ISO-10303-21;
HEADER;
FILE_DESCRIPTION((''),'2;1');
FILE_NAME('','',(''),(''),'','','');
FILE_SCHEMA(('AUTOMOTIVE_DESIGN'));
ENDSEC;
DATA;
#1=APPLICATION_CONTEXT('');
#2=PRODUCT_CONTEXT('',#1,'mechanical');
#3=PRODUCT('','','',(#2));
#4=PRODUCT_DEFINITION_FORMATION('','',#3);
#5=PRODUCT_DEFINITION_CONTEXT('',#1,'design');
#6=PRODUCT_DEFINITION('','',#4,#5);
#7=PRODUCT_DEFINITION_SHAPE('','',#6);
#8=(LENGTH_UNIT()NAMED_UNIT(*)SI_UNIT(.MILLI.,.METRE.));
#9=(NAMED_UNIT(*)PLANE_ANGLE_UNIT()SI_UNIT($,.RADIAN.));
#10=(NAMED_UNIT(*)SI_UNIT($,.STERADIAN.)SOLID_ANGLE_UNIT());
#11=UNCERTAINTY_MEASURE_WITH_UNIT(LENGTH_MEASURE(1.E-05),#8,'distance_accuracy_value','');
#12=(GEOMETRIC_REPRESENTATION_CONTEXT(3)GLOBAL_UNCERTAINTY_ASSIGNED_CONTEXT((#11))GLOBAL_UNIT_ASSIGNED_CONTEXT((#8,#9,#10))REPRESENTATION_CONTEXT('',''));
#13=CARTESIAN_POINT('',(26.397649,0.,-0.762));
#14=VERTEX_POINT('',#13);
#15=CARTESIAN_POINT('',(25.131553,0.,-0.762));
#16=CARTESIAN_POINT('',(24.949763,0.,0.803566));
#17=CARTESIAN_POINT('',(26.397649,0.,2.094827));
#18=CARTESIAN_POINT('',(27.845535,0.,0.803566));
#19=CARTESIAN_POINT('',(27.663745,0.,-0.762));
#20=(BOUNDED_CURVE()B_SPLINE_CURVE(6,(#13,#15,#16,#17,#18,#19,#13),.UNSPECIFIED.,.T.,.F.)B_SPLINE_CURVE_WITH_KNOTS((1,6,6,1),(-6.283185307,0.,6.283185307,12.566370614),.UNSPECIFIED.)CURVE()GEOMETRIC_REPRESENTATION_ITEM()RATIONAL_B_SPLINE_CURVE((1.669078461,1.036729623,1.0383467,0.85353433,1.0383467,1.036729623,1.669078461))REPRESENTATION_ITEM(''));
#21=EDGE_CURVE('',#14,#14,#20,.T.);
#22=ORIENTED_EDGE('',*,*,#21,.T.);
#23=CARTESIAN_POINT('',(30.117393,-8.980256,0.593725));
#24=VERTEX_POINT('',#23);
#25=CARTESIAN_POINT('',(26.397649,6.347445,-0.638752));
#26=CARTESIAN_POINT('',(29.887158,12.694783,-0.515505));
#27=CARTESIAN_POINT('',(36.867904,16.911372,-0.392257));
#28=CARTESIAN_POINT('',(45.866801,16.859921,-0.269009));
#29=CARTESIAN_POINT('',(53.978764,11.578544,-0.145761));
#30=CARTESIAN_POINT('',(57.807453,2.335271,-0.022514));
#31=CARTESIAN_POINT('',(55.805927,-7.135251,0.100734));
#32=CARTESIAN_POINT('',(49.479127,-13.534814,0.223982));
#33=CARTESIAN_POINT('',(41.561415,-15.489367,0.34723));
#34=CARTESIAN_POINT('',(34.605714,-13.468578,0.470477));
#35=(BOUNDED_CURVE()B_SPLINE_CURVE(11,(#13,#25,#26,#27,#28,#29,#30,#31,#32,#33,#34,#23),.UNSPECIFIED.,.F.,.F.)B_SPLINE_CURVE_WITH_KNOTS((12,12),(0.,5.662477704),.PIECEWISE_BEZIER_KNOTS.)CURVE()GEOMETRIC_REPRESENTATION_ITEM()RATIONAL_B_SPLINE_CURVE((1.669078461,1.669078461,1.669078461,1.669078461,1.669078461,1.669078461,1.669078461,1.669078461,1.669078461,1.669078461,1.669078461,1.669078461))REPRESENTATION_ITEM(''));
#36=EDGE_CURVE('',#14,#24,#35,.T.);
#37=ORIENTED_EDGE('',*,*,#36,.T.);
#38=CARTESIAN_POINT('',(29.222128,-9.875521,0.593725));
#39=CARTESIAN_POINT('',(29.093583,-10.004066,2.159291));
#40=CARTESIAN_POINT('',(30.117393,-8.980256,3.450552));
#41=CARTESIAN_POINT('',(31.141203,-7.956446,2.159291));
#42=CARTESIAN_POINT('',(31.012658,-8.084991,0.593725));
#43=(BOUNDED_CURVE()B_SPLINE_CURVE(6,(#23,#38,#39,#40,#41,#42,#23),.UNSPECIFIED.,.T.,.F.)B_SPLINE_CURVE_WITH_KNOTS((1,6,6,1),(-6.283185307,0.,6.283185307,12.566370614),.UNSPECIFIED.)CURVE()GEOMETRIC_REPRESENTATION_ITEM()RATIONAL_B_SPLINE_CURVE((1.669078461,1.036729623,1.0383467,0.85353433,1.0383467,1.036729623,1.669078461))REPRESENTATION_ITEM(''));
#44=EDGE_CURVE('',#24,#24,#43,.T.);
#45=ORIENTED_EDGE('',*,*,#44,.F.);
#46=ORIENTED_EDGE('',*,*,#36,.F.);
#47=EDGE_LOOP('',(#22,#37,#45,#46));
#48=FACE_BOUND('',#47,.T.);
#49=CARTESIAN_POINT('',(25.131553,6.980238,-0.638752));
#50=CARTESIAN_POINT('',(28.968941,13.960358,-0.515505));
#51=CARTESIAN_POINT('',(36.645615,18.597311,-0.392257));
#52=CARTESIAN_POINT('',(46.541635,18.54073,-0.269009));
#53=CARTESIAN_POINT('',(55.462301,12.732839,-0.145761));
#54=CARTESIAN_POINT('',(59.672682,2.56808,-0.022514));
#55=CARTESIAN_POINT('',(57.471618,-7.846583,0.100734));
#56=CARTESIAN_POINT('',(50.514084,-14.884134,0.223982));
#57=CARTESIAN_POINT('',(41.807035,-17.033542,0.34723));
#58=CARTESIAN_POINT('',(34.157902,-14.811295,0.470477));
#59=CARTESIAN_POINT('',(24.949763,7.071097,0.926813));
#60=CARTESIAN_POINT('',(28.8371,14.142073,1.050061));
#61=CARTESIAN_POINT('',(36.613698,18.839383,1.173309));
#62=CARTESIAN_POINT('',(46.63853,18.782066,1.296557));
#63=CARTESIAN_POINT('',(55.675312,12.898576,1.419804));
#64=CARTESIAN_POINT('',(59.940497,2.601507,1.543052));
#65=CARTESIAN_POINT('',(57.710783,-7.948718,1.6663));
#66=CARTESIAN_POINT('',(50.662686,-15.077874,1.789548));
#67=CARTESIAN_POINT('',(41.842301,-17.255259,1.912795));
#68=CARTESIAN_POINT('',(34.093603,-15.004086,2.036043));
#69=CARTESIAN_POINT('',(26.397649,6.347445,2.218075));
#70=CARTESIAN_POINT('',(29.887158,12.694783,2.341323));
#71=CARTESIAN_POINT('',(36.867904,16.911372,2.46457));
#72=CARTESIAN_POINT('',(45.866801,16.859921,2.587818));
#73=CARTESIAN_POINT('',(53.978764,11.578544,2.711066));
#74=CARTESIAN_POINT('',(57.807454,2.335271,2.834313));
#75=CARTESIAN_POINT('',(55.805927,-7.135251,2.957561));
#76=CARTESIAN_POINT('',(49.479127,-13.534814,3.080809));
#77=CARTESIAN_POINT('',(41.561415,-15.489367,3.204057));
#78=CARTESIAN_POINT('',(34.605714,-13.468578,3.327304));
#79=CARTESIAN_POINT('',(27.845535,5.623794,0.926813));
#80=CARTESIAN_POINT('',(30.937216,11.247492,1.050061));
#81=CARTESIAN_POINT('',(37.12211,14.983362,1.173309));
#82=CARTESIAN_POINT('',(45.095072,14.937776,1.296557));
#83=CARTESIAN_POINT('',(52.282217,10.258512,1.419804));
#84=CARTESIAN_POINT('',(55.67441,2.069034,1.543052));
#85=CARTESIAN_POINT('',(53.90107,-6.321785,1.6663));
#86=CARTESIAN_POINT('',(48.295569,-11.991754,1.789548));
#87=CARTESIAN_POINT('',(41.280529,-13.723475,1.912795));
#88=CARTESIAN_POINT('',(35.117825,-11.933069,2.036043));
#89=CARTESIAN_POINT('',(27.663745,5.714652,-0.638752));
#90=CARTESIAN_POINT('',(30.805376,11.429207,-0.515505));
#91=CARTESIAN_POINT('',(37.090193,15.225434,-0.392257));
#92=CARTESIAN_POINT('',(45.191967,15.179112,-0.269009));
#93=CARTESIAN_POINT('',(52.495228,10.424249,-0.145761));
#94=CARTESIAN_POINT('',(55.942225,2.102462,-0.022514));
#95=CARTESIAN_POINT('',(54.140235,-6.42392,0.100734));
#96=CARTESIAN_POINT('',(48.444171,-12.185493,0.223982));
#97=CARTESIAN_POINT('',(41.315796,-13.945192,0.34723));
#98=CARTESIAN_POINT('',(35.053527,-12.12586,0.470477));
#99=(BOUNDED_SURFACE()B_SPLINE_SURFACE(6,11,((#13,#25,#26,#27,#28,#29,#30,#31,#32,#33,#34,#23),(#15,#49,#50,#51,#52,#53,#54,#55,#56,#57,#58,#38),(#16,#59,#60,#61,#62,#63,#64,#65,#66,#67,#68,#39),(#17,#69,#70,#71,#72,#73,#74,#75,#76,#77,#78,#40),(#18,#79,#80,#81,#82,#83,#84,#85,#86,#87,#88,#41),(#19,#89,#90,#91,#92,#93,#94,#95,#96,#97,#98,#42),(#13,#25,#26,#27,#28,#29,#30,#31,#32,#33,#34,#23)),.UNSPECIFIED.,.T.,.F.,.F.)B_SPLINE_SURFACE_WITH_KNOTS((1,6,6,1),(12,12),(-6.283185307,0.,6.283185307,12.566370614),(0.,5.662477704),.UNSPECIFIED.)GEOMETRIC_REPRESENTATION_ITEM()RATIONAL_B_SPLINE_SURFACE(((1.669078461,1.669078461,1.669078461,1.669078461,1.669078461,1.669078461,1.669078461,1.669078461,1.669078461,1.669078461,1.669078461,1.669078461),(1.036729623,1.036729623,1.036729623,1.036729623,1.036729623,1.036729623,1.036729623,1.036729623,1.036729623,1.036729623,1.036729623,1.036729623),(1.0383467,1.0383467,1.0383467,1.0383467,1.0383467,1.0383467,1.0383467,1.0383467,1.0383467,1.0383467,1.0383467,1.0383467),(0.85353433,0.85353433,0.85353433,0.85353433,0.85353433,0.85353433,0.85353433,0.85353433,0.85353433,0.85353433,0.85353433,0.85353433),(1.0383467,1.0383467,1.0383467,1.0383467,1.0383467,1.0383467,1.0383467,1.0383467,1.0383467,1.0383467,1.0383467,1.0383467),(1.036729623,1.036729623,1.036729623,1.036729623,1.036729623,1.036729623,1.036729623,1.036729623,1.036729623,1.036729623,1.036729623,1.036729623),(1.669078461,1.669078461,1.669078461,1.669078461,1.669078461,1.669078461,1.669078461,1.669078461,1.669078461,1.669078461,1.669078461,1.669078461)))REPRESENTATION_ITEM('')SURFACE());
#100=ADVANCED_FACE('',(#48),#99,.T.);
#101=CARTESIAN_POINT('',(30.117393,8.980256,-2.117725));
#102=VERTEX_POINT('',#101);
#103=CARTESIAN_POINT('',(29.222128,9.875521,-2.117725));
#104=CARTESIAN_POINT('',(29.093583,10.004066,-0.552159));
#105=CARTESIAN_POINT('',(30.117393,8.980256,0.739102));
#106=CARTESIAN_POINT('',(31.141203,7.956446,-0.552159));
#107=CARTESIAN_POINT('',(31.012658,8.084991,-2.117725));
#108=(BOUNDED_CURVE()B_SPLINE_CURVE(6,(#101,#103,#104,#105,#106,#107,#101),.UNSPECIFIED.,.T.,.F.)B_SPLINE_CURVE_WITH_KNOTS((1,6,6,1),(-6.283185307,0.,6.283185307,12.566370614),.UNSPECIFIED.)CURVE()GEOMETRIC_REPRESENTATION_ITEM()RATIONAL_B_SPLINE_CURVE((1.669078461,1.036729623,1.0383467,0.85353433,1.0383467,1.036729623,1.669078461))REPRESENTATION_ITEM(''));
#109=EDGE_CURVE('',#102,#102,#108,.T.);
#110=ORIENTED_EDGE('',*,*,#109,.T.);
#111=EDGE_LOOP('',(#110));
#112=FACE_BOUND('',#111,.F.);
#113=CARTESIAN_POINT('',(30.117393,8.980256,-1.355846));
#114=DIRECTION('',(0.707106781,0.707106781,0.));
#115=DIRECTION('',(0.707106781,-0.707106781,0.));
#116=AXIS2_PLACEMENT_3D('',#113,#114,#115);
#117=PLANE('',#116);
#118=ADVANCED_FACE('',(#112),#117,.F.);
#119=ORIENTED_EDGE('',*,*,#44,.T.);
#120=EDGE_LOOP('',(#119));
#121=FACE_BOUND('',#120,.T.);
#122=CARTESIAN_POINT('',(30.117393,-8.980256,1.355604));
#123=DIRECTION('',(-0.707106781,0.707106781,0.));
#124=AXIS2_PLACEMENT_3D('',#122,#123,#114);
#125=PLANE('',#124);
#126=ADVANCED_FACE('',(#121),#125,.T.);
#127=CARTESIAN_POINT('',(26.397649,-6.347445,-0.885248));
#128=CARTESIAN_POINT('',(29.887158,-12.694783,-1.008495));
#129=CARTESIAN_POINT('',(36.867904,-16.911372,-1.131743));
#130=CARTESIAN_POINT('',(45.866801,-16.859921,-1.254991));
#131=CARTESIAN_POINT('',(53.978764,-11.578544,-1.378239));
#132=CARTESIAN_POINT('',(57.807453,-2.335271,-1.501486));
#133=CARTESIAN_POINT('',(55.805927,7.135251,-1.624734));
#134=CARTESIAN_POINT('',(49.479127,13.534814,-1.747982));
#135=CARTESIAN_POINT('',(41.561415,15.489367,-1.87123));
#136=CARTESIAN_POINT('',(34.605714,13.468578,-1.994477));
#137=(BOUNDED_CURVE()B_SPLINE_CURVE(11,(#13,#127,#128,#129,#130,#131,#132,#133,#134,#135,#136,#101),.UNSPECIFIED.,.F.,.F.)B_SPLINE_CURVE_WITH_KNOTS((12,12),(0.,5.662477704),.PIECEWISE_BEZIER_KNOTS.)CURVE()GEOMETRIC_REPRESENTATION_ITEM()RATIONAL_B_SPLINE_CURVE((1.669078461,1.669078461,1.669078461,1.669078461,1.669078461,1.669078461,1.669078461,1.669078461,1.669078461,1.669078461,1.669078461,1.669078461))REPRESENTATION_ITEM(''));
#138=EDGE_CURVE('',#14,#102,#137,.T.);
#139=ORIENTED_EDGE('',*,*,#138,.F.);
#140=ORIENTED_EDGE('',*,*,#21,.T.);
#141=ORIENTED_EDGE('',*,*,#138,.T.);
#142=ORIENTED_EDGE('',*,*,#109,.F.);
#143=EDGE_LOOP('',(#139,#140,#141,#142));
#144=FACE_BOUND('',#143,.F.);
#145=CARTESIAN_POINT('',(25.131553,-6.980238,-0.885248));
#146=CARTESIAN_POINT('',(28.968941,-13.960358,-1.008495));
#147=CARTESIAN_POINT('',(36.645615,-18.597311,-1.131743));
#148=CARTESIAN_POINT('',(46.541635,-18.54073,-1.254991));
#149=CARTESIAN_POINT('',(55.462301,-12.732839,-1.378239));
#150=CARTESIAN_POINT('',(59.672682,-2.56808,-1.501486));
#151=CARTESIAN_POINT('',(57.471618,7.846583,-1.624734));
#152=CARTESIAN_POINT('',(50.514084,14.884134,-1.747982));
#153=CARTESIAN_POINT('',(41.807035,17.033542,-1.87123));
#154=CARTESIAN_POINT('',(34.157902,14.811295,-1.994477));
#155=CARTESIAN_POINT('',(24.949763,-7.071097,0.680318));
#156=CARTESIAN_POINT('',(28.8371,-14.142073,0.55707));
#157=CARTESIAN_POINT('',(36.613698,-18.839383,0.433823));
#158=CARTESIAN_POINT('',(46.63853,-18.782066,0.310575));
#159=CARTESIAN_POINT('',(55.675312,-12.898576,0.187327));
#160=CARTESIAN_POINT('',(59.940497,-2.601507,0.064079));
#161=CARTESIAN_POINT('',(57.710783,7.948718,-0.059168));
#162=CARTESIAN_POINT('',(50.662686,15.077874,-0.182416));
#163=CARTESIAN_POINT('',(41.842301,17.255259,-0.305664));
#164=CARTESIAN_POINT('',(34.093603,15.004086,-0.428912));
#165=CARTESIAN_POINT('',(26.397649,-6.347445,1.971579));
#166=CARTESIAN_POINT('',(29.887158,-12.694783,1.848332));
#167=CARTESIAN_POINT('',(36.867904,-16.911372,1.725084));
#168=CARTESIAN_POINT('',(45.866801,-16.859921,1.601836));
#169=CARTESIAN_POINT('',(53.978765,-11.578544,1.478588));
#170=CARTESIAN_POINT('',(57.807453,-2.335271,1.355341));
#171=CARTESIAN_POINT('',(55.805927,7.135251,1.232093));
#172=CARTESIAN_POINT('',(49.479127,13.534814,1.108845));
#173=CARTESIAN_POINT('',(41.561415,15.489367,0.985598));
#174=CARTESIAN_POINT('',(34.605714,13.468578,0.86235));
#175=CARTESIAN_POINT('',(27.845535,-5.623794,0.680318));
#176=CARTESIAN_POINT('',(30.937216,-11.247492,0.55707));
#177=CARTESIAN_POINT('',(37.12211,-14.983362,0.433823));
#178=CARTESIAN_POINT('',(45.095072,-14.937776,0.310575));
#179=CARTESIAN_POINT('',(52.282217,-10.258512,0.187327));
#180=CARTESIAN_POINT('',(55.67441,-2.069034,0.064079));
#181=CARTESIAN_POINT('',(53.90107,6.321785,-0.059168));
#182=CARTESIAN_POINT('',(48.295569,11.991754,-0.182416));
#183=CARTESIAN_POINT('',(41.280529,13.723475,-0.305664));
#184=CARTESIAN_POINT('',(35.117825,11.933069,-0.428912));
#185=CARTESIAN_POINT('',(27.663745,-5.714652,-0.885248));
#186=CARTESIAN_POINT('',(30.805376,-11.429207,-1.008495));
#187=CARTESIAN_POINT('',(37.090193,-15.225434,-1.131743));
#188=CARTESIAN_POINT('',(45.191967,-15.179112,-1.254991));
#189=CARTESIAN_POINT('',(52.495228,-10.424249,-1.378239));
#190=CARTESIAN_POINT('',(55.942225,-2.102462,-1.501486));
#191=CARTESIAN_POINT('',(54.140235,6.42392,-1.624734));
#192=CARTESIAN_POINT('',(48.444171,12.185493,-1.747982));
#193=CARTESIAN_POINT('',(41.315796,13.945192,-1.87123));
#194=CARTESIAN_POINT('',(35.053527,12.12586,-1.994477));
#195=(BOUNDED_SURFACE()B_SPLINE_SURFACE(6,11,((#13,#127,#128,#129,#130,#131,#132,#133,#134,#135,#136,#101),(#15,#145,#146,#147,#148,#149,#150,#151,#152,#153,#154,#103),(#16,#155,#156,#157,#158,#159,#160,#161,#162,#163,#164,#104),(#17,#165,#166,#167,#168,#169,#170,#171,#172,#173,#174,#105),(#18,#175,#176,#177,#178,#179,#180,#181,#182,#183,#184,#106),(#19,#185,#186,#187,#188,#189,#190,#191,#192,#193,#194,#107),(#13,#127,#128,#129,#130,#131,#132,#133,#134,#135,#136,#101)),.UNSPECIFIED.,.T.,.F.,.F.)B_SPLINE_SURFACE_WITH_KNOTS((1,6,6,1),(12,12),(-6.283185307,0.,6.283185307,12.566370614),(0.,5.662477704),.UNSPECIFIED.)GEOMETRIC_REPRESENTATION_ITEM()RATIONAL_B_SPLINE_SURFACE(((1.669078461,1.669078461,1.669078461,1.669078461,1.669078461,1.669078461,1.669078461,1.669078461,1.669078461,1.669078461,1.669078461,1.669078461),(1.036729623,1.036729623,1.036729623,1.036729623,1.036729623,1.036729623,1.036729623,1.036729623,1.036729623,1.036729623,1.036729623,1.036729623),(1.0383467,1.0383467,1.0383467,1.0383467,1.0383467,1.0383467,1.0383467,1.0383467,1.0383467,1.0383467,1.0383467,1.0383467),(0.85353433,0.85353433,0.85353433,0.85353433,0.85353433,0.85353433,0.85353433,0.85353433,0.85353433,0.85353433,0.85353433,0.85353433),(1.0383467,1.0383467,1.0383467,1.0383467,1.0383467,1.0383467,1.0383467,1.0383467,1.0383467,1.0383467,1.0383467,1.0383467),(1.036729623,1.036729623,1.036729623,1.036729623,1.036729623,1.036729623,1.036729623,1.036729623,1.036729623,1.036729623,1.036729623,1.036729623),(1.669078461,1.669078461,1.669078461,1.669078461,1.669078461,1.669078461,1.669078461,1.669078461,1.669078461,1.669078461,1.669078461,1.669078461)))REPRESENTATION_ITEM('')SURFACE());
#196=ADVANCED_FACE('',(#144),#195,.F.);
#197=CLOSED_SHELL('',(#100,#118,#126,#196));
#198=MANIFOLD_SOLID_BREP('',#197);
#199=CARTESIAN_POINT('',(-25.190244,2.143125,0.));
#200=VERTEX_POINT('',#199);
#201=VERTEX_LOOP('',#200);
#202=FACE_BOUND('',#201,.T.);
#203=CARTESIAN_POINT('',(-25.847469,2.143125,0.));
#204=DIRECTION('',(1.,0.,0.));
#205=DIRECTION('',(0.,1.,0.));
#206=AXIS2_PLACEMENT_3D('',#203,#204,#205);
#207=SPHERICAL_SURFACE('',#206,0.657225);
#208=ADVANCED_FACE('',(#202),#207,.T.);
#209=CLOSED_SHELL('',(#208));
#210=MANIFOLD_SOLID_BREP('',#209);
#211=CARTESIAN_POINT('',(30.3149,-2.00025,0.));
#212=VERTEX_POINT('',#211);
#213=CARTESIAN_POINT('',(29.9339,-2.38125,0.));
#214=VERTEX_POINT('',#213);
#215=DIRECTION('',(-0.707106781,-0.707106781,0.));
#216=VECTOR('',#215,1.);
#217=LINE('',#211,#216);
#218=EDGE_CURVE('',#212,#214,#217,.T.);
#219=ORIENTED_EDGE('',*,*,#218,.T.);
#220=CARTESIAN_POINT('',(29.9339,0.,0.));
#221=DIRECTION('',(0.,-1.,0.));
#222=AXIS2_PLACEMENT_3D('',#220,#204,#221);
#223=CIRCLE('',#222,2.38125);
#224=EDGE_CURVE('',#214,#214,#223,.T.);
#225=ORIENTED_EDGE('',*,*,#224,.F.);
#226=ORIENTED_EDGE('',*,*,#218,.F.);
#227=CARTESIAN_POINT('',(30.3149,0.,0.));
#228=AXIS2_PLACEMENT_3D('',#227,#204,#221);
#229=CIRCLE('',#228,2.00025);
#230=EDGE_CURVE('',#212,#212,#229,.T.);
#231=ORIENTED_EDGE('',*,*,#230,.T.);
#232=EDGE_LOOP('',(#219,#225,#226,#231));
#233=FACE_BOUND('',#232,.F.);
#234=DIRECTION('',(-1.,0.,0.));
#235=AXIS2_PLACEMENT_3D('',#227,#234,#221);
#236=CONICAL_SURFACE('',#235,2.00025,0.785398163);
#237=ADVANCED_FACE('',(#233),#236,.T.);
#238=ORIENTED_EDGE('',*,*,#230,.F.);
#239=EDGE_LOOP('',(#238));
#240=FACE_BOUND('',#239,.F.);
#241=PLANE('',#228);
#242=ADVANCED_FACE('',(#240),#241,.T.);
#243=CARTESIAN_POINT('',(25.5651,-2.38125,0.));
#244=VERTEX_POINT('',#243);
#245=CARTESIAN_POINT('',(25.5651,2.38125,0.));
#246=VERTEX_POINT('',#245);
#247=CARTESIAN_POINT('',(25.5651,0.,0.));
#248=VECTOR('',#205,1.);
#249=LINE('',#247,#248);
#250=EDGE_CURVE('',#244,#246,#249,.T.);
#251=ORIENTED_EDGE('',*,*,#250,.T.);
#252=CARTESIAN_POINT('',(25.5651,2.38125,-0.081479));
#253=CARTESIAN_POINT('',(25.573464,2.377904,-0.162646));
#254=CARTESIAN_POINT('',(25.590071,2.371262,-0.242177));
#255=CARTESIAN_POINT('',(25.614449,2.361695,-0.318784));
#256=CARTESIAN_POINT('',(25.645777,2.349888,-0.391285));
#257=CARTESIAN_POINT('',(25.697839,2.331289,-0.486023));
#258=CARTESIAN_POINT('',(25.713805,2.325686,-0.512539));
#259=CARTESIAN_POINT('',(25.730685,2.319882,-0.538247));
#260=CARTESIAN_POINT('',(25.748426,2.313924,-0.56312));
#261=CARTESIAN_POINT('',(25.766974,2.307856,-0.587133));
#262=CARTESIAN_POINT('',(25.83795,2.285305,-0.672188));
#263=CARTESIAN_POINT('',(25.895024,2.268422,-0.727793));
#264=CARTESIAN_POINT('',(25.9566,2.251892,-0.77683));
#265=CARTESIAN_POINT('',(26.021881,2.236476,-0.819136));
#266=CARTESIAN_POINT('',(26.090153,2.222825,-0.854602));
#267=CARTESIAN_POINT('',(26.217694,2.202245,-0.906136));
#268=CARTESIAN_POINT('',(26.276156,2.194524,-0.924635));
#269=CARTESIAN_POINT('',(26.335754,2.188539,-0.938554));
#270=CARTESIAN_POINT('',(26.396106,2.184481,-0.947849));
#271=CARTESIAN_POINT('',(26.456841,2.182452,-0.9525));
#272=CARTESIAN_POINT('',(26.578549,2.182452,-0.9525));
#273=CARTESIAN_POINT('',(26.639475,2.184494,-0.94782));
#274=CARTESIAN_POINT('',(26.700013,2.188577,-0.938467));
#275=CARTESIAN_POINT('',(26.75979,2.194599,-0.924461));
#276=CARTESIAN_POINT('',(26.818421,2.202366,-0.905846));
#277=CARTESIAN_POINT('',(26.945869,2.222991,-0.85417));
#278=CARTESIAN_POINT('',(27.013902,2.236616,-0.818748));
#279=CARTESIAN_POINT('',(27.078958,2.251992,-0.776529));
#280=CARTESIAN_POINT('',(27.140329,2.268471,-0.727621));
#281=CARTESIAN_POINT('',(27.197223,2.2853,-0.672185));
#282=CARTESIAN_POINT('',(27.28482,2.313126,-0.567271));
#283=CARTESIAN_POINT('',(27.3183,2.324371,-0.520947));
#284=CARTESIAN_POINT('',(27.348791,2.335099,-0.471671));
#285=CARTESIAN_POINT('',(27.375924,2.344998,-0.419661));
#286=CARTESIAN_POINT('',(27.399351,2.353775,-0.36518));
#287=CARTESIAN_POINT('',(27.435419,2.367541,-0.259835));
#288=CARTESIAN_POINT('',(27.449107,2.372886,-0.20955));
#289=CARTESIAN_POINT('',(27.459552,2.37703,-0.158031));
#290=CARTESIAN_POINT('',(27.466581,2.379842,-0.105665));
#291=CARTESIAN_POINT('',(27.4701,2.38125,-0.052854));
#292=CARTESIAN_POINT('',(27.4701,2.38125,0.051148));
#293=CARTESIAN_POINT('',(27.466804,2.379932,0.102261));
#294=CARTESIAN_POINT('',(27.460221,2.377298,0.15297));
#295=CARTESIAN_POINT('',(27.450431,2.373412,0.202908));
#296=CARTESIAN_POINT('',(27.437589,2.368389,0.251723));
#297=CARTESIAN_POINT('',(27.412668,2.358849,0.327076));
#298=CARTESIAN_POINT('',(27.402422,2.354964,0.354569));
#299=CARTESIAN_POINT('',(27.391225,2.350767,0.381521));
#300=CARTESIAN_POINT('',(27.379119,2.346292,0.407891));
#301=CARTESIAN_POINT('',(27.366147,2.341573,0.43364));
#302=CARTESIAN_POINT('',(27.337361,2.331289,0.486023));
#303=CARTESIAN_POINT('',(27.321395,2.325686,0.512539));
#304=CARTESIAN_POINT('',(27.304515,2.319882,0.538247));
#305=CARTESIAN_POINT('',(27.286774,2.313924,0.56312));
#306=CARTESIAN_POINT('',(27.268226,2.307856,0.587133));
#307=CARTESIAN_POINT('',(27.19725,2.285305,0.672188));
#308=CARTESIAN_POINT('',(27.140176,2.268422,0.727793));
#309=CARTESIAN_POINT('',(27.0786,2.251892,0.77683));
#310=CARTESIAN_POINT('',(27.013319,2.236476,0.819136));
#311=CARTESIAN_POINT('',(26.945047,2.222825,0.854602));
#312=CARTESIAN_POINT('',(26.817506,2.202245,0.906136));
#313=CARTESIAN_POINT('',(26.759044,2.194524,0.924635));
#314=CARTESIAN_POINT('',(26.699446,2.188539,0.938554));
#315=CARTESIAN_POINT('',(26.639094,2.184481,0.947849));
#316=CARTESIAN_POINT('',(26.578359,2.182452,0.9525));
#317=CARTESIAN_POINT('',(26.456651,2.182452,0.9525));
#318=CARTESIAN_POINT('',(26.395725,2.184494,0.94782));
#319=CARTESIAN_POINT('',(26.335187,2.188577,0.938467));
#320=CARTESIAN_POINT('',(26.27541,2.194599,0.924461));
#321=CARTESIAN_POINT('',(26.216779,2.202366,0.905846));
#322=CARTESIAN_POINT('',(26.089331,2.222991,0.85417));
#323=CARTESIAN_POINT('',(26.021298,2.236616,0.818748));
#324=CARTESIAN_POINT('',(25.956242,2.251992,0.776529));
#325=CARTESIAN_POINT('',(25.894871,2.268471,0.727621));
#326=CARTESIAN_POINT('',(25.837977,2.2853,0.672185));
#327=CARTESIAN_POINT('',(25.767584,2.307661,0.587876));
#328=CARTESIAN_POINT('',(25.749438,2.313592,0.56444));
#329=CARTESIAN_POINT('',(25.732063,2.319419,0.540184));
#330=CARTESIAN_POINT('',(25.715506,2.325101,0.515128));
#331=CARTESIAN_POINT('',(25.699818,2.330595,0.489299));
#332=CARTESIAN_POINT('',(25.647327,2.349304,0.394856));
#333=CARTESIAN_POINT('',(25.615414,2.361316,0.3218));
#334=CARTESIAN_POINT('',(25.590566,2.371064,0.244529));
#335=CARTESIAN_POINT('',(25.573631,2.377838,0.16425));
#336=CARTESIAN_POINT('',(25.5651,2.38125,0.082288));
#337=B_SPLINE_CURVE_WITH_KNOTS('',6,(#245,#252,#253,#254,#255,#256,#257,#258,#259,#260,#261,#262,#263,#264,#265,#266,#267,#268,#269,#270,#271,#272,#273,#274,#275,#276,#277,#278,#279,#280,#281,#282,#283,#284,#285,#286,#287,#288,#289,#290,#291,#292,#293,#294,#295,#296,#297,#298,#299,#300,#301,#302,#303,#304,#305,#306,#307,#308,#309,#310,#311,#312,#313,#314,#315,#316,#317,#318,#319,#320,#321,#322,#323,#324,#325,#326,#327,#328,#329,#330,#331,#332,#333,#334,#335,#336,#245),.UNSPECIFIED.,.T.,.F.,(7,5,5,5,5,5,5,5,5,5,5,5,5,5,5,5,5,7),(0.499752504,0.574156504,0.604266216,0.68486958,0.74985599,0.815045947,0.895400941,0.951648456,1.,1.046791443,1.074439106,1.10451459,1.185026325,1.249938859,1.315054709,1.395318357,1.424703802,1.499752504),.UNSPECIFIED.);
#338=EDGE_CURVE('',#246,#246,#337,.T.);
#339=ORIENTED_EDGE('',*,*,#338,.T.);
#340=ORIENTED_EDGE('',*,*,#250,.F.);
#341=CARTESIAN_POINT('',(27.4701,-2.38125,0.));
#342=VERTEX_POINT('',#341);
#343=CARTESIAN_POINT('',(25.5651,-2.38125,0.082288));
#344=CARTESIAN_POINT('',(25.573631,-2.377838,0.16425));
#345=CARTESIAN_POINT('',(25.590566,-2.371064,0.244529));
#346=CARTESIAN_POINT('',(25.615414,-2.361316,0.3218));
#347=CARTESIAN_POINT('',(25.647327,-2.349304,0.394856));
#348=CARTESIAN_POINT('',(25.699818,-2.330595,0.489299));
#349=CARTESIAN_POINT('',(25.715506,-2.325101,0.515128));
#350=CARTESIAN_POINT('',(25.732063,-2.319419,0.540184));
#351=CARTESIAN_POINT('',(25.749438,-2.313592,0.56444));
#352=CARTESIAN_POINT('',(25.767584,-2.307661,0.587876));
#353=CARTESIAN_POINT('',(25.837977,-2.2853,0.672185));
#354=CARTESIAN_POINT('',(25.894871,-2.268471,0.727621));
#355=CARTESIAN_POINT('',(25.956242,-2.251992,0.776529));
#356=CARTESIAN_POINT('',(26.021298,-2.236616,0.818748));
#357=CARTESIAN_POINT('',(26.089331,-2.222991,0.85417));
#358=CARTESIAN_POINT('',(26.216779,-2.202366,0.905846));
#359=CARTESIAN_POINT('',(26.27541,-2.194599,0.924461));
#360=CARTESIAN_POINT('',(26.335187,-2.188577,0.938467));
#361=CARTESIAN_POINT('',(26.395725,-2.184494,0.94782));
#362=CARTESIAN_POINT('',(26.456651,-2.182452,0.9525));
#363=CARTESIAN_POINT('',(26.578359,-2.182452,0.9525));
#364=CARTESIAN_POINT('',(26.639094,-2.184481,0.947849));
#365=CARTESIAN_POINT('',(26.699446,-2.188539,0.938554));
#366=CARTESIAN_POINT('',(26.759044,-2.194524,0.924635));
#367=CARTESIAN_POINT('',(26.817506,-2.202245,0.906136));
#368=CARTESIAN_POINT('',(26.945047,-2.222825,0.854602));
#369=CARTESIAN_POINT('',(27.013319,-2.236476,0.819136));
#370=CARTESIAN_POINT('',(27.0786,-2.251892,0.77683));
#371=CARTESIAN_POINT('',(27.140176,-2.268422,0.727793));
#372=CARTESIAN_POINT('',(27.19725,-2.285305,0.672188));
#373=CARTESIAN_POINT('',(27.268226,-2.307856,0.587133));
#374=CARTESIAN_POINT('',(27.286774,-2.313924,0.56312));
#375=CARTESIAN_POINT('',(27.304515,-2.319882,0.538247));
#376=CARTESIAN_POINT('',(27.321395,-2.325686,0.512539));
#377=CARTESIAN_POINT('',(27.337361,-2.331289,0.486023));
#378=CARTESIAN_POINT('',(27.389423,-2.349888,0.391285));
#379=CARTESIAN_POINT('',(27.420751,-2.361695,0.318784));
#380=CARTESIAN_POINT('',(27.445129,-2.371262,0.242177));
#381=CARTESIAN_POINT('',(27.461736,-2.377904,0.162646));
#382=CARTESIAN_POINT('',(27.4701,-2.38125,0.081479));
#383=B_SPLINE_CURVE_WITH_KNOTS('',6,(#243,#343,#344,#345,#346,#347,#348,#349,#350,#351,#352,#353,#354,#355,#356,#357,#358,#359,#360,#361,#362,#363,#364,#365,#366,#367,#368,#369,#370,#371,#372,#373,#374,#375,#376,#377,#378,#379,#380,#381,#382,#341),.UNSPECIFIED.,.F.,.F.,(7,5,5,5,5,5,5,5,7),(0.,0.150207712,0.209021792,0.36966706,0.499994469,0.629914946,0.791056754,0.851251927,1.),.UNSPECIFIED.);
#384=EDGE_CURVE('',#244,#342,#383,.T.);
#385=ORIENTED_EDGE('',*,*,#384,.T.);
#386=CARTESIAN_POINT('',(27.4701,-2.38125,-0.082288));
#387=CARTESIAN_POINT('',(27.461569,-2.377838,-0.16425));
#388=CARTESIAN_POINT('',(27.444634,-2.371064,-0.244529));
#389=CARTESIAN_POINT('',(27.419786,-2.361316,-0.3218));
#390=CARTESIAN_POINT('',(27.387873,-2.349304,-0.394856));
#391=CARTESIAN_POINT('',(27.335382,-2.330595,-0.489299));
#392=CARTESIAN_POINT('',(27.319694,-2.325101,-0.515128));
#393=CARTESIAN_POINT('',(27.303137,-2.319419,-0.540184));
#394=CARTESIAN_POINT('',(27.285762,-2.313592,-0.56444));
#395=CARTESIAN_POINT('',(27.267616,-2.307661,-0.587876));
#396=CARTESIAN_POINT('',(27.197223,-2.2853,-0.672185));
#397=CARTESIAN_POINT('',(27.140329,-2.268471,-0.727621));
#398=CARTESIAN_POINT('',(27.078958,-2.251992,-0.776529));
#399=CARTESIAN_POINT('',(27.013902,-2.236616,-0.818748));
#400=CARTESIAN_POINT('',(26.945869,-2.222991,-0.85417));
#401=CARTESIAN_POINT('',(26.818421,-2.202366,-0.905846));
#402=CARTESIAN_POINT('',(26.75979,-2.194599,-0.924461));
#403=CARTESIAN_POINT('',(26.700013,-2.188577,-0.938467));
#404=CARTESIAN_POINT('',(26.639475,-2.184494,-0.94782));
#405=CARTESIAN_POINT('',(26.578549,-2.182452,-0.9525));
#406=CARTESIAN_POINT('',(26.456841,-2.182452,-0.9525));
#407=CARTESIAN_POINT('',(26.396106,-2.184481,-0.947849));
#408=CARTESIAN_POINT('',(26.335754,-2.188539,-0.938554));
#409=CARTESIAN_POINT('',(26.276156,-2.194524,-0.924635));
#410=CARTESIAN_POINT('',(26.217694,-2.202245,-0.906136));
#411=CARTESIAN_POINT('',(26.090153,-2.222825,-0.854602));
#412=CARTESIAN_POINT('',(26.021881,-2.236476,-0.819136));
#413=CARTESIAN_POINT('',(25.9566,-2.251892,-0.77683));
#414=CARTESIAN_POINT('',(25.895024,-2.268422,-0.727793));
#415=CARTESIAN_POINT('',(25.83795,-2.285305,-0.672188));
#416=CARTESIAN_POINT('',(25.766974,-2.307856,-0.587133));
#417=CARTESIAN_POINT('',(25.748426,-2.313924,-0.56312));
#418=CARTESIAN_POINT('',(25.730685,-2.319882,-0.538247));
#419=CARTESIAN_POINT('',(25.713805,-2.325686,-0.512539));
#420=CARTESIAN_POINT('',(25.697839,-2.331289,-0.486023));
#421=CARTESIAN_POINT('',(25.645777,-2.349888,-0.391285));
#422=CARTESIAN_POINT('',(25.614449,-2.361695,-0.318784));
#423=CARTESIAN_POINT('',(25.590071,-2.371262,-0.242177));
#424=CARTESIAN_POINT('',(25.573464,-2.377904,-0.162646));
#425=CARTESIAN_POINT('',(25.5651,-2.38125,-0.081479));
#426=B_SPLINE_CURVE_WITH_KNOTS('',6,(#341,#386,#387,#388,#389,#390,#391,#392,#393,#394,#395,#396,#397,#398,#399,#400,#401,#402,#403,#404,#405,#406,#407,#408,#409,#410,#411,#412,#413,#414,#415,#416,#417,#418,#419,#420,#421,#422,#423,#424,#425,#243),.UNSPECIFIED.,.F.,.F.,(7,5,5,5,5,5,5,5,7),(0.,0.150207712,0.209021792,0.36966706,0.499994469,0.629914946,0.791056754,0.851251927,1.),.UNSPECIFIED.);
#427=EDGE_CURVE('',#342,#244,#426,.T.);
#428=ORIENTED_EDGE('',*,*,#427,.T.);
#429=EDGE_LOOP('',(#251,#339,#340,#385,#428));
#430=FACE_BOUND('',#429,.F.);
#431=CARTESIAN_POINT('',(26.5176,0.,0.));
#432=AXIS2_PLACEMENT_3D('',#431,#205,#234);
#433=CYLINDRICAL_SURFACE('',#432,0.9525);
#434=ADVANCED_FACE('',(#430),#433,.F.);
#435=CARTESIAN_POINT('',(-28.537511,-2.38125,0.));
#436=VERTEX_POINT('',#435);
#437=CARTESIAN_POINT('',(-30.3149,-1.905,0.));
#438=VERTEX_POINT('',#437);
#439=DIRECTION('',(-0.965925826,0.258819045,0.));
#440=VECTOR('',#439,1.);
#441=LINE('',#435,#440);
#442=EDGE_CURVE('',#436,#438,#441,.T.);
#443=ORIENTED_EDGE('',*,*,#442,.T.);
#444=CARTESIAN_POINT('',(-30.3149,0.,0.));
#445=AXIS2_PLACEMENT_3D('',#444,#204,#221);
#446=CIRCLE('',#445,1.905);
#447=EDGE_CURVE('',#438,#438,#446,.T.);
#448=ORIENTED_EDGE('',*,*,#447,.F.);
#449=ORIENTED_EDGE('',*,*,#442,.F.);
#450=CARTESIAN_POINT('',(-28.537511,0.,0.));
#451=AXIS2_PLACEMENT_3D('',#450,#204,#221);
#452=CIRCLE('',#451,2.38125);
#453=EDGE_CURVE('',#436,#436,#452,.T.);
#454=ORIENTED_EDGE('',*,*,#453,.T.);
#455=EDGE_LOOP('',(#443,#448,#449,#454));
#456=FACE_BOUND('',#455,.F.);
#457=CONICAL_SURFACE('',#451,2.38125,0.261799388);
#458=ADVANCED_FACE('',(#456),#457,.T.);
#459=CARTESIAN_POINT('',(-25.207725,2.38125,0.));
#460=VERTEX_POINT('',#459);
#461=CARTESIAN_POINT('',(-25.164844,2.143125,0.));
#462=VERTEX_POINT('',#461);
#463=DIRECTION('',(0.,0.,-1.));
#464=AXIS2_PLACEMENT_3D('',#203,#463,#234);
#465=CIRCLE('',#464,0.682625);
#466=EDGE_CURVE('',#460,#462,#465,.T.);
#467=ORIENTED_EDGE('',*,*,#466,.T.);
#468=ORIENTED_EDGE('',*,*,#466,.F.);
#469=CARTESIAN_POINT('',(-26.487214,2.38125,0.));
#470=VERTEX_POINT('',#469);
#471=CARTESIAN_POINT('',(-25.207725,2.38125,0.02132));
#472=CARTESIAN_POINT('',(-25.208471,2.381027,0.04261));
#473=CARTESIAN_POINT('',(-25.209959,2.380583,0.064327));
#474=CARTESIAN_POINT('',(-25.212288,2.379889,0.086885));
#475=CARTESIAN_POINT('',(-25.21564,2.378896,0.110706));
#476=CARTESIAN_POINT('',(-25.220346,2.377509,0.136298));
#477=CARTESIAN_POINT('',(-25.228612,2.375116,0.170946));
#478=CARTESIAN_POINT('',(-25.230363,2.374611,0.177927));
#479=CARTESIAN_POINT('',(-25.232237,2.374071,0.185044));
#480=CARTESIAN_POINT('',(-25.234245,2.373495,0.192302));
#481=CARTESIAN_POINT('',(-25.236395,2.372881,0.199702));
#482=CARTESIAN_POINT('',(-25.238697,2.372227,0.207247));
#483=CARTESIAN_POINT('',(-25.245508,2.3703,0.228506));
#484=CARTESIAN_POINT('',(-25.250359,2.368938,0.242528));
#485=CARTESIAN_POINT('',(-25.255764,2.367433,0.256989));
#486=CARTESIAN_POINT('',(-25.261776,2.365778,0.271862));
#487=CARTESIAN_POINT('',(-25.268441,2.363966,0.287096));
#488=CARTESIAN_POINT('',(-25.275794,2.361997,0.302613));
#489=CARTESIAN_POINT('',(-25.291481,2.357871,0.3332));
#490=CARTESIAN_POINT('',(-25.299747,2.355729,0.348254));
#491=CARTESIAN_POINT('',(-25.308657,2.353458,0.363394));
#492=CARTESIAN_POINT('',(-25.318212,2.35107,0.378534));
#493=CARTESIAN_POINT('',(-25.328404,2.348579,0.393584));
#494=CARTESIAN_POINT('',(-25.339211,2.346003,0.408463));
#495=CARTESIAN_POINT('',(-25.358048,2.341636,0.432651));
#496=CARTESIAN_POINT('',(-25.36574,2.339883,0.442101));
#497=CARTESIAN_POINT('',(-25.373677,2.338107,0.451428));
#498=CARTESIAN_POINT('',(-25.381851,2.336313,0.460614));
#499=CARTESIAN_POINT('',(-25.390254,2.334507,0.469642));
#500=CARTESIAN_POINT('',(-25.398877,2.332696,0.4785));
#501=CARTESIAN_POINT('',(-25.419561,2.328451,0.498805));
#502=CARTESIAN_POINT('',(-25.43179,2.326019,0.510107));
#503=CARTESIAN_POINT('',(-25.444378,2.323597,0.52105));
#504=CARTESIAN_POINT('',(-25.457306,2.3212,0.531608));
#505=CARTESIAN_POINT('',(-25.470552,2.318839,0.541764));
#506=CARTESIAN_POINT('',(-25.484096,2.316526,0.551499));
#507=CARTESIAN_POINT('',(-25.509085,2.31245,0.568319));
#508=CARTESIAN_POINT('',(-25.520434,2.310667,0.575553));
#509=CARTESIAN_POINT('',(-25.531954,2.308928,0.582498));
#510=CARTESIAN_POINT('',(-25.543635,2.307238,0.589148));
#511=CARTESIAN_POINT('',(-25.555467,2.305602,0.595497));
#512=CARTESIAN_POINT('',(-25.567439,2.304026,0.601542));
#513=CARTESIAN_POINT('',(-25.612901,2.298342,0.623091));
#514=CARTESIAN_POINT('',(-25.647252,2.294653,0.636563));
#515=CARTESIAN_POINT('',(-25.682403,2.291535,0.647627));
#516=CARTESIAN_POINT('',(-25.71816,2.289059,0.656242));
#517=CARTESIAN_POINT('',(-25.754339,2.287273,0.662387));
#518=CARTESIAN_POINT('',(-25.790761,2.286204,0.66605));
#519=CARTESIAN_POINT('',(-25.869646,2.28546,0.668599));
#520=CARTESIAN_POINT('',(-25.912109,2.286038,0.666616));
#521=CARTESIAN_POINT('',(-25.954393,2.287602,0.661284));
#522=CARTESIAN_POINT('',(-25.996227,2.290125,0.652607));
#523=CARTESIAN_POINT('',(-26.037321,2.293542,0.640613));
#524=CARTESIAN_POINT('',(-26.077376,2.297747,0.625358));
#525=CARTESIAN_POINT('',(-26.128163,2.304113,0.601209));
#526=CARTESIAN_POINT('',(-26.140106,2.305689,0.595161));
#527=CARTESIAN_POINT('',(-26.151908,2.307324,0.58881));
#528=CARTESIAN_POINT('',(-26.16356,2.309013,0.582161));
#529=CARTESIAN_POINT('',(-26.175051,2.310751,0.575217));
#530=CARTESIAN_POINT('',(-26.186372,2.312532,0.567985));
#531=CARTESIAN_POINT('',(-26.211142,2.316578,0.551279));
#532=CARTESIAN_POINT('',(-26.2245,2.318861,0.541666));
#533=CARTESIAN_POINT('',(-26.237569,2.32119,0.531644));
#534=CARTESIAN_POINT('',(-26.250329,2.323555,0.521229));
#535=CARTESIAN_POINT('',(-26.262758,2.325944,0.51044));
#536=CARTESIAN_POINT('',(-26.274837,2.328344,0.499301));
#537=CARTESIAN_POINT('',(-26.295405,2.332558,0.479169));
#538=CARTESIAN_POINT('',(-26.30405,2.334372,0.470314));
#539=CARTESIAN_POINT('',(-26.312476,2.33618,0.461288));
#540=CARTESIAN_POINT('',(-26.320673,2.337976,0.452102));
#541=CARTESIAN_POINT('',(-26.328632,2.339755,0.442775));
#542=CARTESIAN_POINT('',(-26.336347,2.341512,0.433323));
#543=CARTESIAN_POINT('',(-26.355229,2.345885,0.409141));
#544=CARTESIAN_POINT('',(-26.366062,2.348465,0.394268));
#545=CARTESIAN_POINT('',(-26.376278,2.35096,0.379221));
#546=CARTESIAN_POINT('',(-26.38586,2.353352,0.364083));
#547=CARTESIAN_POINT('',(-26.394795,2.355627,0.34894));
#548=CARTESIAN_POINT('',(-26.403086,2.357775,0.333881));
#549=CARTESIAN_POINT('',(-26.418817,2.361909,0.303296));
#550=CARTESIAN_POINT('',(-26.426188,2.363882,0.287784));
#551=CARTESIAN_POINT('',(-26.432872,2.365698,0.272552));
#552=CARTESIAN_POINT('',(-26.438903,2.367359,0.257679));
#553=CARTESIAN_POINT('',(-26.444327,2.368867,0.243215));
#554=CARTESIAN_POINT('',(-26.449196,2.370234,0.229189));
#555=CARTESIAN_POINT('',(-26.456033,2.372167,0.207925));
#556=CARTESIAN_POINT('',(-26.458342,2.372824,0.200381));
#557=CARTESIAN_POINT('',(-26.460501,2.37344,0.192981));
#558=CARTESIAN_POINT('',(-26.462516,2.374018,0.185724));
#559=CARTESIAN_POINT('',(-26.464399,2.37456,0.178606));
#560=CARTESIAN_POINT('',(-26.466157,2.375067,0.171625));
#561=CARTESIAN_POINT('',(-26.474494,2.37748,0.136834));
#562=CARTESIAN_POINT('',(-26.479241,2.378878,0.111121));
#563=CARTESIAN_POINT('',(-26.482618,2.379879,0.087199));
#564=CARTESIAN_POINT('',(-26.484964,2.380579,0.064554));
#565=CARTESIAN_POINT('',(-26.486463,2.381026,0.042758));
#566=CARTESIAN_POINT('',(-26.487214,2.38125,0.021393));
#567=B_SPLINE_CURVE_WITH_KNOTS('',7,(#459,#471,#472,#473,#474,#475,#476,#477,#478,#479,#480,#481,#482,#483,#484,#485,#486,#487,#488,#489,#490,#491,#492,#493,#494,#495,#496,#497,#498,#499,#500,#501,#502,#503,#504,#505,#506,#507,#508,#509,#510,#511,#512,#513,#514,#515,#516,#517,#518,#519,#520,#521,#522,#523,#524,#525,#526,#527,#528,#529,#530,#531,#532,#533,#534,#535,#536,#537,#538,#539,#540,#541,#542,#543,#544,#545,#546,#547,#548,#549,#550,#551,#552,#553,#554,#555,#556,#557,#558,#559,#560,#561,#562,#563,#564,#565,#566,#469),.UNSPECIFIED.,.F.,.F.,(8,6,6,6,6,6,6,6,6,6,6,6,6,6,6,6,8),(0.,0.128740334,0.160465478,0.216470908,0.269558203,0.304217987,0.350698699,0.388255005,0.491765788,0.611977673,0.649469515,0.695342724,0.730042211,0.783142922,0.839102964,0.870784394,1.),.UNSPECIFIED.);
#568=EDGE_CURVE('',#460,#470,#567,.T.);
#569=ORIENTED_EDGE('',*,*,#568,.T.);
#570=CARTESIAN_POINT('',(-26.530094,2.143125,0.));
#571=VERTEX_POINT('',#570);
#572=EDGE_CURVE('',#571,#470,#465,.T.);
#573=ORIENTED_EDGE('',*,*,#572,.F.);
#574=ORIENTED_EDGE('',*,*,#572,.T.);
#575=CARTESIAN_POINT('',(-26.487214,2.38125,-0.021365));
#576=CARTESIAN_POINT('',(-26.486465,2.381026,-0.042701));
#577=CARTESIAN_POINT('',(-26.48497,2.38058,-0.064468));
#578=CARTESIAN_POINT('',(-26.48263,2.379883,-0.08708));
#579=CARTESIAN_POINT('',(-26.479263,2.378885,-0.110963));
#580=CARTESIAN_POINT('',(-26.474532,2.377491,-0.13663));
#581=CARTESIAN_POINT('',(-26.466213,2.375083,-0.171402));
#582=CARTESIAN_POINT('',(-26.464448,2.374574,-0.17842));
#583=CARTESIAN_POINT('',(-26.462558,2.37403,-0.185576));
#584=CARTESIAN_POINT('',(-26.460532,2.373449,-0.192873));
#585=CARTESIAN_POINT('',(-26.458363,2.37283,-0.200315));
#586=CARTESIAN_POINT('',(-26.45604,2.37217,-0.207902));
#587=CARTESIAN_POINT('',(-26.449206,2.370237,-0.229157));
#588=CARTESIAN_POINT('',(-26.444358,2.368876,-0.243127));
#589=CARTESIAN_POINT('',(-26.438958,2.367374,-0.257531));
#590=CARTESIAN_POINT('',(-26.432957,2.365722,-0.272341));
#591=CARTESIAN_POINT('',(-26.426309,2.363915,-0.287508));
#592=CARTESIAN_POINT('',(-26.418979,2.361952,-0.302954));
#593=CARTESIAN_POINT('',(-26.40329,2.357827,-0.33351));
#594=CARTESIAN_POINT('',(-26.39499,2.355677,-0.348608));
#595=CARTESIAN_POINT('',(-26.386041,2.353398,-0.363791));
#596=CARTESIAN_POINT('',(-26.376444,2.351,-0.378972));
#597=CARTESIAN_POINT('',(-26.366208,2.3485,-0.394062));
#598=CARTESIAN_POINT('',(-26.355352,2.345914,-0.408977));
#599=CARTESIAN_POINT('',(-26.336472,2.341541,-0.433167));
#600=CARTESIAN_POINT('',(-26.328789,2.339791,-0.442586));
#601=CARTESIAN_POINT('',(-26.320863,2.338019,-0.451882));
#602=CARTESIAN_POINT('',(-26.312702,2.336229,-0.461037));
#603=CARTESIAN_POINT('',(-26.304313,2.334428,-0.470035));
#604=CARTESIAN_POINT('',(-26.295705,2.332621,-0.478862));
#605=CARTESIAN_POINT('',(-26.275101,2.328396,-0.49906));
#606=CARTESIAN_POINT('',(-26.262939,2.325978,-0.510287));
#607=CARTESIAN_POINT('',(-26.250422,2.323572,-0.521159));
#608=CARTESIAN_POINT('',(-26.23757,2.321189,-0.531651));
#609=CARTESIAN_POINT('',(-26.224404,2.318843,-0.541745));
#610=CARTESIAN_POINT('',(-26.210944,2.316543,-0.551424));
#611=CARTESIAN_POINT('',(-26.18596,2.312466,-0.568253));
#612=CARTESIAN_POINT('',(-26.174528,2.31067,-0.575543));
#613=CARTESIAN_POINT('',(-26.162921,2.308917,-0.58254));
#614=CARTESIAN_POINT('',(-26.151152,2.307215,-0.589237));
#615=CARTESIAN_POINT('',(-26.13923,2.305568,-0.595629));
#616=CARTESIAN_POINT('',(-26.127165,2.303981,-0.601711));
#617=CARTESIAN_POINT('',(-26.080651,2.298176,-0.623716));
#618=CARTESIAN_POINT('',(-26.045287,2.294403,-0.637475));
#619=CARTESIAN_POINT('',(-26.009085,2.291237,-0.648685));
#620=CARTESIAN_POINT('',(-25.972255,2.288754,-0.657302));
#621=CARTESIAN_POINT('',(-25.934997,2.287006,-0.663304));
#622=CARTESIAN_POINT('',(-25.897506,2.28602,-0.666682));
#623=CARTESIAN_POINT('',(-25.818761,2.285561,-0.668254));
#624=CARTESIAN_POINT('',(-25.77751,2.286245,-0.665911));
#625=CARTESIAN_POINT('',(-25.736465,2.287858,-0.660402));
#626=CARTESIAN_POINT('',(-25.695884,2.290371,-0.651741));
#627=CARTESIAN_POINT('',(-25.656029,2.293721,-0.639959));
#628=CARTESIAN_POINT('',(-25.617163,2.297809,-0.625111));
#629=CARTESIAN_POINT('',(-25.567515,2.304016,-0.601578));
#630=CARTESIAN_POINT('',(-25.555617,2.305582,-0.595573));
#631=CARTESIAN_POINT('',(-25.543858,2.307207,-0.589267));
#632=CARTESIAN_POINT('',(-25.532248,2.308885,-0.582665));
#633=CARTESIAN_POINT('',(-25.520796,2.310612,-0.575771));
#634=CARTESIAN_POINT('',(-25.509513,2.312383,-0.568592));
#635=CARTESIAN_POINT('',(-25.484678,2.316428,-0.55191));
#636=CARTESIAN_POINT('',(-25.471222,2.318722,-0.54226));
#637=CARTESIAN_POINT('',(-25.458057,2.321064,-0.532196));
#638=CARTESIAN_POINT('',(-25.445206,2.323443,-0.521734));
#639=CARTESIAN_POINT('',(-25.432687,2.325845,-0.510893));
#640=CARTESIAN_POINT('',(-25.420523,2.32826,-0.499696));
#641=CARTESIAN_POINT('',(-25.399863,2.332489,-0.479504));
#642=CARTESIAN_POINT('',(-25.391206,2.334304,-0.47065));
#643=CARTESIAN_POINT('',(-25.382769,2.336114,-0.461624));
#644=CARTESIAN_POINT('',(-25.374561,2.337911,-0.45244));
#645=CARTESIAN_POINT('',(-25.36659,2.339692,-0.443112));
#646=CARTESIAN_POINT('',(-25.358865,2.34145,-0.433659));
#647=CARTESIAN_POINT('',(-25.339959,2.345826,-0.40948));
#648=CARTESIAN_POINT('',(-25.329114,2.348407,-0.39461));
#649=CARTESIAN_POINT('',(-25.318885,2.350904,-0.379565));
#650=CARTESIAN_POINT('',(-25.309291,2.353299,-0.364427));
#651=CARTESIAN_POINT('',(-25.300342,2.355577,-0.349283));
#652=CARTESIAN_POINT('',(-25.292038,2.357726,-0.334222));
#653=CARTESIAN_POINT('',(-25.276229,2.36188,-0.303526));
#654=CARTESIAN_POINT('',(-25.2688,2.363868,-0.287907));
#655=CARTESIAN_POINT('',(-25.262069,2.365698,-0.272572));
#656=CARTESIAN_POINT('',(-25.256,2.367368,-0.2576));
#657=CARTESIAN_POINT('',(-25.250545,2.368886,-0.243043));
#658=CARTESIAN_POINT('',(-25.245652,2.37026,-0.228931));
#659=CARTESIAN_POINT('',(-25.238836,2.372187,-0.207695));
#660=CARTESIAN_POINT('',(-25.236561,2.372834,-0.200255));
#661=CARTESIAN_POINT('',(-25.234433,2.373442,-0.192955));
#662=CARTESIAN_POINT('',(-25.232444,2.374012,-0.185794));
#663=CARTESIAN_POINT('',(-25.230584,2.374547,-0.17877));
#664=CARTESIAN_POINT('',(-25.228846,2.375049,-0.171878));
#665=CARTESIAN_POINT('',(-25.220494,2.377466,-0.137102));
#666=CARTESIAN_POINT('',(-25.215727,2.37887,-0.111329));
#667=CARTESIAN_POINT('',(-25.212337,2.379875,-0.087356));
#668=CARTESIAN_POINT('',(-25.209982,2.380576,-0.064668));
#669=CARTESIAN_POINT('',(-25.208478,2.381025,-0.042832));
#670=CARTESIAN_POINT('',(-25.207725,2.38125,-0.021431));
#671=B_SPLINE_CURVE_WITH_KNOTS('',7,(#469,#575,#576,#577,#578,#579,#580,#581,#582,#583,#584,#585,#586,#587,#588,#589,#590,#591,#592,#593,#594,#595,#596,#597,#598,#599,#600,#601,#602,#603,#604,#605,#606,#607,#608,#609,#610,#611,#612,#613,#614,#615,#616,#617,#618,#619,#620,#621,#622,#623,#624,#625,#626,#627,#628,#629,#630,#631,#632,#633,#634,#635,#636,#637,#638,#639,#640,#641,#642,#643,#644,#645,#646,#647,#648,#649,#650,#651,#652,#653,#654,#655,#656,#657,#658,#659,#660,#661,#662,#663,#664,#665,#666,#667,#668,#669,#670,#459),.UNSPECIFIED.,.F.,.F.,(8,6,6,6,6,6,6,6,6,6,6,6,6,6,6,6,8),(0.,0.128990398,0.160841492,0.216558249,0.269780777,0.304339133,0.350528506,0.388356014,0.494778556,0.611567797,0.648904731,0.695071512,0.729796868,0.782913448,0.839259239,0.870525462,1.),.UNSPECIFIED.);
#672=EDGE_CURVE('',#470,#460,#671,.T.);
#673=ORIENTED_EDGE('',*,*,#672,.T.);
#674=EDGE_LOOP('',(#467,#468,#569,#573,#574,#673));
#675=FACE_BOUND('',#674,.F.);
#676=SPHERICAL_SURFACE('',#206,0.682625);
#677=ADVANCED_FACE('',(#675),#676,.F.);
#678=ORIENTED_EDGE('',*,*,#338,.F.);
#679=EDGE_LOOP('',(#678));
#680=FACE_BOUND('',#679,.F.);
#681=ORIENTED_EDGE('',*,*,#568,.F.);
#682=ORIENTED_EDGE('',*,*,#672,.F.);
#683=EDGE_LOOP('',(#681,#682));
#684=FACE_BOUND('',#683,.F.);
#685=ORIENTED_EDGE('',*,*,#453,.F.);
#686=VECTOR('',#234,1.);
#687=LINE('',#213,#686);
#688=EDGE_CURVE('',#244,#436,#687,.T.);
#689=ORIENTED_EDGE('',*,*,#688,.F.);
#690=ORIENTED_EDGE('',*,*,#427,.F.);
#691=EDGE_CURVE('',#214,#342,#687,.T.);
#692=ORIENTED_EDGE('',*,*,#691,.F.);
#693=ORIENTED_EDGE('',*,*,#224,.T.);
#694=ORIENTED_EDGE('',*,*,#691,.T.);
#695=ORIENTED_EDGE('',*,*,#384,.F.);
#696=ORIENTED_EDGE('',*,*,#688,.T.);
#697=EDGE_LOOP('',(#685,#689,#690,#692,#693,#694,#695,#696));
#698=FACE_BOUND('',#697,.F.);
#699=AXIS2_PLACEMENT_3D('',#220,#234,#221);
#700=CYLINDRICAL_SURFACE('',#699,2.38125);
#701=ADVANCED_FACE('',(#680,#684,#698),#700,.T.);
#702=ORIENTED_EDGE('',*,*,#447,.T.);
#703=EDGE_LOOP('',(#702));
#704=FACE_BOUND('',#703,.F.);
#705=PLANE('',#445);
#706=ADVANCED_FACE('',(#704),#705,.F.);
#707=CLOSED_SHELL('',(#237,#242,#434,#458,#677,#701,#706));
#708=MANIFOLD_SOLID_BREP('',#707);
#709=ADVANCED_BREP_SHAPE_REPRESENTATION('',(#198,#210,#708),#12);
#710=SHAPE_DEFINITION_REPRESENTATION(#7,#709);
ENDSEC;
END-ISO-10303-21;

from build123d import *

# Parameters (mm, degrees)
SKETCH4_W          = 0.9525
SKETCH4_H          = 4.7625
SWEEP1_PITCH       = 1.5494
SWEEP1_HEIGHT      = 1.355725
SWEEP1_RADIUS      = 13.462
SKETCH6_R          = 0.762
SWEEP2_PITCH       = 1.5494
SWEEP2_HEIGHT      = 1.355725
SWEEP2_RADIUS      = 13.462
SWEEP2_START_ANGLE = -180
SKETCH6_2_R        = 0.762


with BuildPart() as part:
    # Sketch1 → Revolve1 (revolve)
    with BuildSketch(Plane.XY, mode=Mode.PRIVATE) as revolve1_sk:
        Polygon((30.3149, 2.00025), (29.9339, 2.38125), (-28.537510803, 2.38125), (-30.3149, 1.905), (-30.3149, 0), (30.3149, 0), align=None)
    revolve(revolve1_sk.sketch.rotate(Axis((30.3149, 0, 0), (1, 0, 0)), 180), axis=Axis((30.3149, 0, 0), (1, 0, 0)))

    # Sketch2 → Cut-Revolve1 (revolve, cut)
    with BuildSketch(Plane.XY):
        with BuildLine():
            Line((-25.164844331, 2.143125), (-26.530094331, 2.143125))
            ThreePointArc((-26.530094331, 2.143125), (-25.847469331, 2.82575), (-25.164844331, 2.143125))
        make_face()
    revolve(axis=Axis((-25.164844331, 2.143125, 0), (1, 0, 0)), mode=Mode.SUBTRACT)

    # Sketch4 → Cut-Revolve2 (revolve, cut)
    with BuildSketch(Plane.XY, mode=Mode.PRIVATE) as cut_revolve2_sk:
        with Locations((26.99385, 0)):
            Rectangle(SKETCH4_W, SKETCH4_H)
    revolve(cut_revolve2_sk.sketch.rotate(Axis((26.5176, -2.38125, 0), (0, 1, 0)), 180), axis=Axis((26.5176, -2.38125, 0), (0, 1, 0)), mode=Mode.SUBTRACT)


with BuildPart() as body_2:
    # Sketch3 → Revolve2 (revolve)
    with BuildSketch(Plane.XY):
        with BuildLine():
            Line((-25.190244331, 2.143125), (-26.504694331, 2.143125))
            ThreePointArc((-26.504694331, 2.143125), (-25.847469331, 2.80035), (-25.190244331, 2.143125))
        make_face()
    revolve(axis=Axis((-25.190244331, 2.143125, 0), (1, 0, 0)))


with BuildPart() as body_3:
    # Sweep1: sweep along a helix
    with BuildLine() as sweep1_path:
        Helix(SWEEP1_PITCH, SWEEP1_HEIGHT, SWEEP1_RADIUS, center=(39.097648906, 0, 0), direction=(0, 0, -1), lefthand=True)
    # Sketch6 → Sweep1 (sweep)
    with BuildSketch(Plane(origin=(114.003847968, 0, 0), x_dir=(0, 0, -1), z_dir=(0, 1, 0))):
        with Locations((0, 87.606199061)):
            Circle(SKETCH6_R)
    sweep(path=sweep1_path.line, is_frenet=True)

    # Sweep2: sweep along a helix
    with BuildLine() as sweep2_path:
        add(Helix(SWEEP2_PITCH, SWEEP2_HEIGHT, SWEEP2_RADIUS, center=(39.097648906, 0, 0), direction=(0, 0, 1), lefthand=True, mode=Mode.PRIVATE).rotate(Axis((39.097648906, 0, 0), (0, 0, 1)), SWEEP2_START_ANGLE))
    # Sketch6<2> → Sweep2 (sweep)
    with BuildSketch(Plane(origin=(114.003847968, 0, 0), x_dir=(0, 0, -1), z_dir=(0, 1, 0))):
        with Locations((0, 87.606199061)):
            Circle(SKETCH6_2_R)
    sweep(path=sweep2_path.line, is_frenet=True)


solid = Compound([part.part, body_2.part, body_3.part])
